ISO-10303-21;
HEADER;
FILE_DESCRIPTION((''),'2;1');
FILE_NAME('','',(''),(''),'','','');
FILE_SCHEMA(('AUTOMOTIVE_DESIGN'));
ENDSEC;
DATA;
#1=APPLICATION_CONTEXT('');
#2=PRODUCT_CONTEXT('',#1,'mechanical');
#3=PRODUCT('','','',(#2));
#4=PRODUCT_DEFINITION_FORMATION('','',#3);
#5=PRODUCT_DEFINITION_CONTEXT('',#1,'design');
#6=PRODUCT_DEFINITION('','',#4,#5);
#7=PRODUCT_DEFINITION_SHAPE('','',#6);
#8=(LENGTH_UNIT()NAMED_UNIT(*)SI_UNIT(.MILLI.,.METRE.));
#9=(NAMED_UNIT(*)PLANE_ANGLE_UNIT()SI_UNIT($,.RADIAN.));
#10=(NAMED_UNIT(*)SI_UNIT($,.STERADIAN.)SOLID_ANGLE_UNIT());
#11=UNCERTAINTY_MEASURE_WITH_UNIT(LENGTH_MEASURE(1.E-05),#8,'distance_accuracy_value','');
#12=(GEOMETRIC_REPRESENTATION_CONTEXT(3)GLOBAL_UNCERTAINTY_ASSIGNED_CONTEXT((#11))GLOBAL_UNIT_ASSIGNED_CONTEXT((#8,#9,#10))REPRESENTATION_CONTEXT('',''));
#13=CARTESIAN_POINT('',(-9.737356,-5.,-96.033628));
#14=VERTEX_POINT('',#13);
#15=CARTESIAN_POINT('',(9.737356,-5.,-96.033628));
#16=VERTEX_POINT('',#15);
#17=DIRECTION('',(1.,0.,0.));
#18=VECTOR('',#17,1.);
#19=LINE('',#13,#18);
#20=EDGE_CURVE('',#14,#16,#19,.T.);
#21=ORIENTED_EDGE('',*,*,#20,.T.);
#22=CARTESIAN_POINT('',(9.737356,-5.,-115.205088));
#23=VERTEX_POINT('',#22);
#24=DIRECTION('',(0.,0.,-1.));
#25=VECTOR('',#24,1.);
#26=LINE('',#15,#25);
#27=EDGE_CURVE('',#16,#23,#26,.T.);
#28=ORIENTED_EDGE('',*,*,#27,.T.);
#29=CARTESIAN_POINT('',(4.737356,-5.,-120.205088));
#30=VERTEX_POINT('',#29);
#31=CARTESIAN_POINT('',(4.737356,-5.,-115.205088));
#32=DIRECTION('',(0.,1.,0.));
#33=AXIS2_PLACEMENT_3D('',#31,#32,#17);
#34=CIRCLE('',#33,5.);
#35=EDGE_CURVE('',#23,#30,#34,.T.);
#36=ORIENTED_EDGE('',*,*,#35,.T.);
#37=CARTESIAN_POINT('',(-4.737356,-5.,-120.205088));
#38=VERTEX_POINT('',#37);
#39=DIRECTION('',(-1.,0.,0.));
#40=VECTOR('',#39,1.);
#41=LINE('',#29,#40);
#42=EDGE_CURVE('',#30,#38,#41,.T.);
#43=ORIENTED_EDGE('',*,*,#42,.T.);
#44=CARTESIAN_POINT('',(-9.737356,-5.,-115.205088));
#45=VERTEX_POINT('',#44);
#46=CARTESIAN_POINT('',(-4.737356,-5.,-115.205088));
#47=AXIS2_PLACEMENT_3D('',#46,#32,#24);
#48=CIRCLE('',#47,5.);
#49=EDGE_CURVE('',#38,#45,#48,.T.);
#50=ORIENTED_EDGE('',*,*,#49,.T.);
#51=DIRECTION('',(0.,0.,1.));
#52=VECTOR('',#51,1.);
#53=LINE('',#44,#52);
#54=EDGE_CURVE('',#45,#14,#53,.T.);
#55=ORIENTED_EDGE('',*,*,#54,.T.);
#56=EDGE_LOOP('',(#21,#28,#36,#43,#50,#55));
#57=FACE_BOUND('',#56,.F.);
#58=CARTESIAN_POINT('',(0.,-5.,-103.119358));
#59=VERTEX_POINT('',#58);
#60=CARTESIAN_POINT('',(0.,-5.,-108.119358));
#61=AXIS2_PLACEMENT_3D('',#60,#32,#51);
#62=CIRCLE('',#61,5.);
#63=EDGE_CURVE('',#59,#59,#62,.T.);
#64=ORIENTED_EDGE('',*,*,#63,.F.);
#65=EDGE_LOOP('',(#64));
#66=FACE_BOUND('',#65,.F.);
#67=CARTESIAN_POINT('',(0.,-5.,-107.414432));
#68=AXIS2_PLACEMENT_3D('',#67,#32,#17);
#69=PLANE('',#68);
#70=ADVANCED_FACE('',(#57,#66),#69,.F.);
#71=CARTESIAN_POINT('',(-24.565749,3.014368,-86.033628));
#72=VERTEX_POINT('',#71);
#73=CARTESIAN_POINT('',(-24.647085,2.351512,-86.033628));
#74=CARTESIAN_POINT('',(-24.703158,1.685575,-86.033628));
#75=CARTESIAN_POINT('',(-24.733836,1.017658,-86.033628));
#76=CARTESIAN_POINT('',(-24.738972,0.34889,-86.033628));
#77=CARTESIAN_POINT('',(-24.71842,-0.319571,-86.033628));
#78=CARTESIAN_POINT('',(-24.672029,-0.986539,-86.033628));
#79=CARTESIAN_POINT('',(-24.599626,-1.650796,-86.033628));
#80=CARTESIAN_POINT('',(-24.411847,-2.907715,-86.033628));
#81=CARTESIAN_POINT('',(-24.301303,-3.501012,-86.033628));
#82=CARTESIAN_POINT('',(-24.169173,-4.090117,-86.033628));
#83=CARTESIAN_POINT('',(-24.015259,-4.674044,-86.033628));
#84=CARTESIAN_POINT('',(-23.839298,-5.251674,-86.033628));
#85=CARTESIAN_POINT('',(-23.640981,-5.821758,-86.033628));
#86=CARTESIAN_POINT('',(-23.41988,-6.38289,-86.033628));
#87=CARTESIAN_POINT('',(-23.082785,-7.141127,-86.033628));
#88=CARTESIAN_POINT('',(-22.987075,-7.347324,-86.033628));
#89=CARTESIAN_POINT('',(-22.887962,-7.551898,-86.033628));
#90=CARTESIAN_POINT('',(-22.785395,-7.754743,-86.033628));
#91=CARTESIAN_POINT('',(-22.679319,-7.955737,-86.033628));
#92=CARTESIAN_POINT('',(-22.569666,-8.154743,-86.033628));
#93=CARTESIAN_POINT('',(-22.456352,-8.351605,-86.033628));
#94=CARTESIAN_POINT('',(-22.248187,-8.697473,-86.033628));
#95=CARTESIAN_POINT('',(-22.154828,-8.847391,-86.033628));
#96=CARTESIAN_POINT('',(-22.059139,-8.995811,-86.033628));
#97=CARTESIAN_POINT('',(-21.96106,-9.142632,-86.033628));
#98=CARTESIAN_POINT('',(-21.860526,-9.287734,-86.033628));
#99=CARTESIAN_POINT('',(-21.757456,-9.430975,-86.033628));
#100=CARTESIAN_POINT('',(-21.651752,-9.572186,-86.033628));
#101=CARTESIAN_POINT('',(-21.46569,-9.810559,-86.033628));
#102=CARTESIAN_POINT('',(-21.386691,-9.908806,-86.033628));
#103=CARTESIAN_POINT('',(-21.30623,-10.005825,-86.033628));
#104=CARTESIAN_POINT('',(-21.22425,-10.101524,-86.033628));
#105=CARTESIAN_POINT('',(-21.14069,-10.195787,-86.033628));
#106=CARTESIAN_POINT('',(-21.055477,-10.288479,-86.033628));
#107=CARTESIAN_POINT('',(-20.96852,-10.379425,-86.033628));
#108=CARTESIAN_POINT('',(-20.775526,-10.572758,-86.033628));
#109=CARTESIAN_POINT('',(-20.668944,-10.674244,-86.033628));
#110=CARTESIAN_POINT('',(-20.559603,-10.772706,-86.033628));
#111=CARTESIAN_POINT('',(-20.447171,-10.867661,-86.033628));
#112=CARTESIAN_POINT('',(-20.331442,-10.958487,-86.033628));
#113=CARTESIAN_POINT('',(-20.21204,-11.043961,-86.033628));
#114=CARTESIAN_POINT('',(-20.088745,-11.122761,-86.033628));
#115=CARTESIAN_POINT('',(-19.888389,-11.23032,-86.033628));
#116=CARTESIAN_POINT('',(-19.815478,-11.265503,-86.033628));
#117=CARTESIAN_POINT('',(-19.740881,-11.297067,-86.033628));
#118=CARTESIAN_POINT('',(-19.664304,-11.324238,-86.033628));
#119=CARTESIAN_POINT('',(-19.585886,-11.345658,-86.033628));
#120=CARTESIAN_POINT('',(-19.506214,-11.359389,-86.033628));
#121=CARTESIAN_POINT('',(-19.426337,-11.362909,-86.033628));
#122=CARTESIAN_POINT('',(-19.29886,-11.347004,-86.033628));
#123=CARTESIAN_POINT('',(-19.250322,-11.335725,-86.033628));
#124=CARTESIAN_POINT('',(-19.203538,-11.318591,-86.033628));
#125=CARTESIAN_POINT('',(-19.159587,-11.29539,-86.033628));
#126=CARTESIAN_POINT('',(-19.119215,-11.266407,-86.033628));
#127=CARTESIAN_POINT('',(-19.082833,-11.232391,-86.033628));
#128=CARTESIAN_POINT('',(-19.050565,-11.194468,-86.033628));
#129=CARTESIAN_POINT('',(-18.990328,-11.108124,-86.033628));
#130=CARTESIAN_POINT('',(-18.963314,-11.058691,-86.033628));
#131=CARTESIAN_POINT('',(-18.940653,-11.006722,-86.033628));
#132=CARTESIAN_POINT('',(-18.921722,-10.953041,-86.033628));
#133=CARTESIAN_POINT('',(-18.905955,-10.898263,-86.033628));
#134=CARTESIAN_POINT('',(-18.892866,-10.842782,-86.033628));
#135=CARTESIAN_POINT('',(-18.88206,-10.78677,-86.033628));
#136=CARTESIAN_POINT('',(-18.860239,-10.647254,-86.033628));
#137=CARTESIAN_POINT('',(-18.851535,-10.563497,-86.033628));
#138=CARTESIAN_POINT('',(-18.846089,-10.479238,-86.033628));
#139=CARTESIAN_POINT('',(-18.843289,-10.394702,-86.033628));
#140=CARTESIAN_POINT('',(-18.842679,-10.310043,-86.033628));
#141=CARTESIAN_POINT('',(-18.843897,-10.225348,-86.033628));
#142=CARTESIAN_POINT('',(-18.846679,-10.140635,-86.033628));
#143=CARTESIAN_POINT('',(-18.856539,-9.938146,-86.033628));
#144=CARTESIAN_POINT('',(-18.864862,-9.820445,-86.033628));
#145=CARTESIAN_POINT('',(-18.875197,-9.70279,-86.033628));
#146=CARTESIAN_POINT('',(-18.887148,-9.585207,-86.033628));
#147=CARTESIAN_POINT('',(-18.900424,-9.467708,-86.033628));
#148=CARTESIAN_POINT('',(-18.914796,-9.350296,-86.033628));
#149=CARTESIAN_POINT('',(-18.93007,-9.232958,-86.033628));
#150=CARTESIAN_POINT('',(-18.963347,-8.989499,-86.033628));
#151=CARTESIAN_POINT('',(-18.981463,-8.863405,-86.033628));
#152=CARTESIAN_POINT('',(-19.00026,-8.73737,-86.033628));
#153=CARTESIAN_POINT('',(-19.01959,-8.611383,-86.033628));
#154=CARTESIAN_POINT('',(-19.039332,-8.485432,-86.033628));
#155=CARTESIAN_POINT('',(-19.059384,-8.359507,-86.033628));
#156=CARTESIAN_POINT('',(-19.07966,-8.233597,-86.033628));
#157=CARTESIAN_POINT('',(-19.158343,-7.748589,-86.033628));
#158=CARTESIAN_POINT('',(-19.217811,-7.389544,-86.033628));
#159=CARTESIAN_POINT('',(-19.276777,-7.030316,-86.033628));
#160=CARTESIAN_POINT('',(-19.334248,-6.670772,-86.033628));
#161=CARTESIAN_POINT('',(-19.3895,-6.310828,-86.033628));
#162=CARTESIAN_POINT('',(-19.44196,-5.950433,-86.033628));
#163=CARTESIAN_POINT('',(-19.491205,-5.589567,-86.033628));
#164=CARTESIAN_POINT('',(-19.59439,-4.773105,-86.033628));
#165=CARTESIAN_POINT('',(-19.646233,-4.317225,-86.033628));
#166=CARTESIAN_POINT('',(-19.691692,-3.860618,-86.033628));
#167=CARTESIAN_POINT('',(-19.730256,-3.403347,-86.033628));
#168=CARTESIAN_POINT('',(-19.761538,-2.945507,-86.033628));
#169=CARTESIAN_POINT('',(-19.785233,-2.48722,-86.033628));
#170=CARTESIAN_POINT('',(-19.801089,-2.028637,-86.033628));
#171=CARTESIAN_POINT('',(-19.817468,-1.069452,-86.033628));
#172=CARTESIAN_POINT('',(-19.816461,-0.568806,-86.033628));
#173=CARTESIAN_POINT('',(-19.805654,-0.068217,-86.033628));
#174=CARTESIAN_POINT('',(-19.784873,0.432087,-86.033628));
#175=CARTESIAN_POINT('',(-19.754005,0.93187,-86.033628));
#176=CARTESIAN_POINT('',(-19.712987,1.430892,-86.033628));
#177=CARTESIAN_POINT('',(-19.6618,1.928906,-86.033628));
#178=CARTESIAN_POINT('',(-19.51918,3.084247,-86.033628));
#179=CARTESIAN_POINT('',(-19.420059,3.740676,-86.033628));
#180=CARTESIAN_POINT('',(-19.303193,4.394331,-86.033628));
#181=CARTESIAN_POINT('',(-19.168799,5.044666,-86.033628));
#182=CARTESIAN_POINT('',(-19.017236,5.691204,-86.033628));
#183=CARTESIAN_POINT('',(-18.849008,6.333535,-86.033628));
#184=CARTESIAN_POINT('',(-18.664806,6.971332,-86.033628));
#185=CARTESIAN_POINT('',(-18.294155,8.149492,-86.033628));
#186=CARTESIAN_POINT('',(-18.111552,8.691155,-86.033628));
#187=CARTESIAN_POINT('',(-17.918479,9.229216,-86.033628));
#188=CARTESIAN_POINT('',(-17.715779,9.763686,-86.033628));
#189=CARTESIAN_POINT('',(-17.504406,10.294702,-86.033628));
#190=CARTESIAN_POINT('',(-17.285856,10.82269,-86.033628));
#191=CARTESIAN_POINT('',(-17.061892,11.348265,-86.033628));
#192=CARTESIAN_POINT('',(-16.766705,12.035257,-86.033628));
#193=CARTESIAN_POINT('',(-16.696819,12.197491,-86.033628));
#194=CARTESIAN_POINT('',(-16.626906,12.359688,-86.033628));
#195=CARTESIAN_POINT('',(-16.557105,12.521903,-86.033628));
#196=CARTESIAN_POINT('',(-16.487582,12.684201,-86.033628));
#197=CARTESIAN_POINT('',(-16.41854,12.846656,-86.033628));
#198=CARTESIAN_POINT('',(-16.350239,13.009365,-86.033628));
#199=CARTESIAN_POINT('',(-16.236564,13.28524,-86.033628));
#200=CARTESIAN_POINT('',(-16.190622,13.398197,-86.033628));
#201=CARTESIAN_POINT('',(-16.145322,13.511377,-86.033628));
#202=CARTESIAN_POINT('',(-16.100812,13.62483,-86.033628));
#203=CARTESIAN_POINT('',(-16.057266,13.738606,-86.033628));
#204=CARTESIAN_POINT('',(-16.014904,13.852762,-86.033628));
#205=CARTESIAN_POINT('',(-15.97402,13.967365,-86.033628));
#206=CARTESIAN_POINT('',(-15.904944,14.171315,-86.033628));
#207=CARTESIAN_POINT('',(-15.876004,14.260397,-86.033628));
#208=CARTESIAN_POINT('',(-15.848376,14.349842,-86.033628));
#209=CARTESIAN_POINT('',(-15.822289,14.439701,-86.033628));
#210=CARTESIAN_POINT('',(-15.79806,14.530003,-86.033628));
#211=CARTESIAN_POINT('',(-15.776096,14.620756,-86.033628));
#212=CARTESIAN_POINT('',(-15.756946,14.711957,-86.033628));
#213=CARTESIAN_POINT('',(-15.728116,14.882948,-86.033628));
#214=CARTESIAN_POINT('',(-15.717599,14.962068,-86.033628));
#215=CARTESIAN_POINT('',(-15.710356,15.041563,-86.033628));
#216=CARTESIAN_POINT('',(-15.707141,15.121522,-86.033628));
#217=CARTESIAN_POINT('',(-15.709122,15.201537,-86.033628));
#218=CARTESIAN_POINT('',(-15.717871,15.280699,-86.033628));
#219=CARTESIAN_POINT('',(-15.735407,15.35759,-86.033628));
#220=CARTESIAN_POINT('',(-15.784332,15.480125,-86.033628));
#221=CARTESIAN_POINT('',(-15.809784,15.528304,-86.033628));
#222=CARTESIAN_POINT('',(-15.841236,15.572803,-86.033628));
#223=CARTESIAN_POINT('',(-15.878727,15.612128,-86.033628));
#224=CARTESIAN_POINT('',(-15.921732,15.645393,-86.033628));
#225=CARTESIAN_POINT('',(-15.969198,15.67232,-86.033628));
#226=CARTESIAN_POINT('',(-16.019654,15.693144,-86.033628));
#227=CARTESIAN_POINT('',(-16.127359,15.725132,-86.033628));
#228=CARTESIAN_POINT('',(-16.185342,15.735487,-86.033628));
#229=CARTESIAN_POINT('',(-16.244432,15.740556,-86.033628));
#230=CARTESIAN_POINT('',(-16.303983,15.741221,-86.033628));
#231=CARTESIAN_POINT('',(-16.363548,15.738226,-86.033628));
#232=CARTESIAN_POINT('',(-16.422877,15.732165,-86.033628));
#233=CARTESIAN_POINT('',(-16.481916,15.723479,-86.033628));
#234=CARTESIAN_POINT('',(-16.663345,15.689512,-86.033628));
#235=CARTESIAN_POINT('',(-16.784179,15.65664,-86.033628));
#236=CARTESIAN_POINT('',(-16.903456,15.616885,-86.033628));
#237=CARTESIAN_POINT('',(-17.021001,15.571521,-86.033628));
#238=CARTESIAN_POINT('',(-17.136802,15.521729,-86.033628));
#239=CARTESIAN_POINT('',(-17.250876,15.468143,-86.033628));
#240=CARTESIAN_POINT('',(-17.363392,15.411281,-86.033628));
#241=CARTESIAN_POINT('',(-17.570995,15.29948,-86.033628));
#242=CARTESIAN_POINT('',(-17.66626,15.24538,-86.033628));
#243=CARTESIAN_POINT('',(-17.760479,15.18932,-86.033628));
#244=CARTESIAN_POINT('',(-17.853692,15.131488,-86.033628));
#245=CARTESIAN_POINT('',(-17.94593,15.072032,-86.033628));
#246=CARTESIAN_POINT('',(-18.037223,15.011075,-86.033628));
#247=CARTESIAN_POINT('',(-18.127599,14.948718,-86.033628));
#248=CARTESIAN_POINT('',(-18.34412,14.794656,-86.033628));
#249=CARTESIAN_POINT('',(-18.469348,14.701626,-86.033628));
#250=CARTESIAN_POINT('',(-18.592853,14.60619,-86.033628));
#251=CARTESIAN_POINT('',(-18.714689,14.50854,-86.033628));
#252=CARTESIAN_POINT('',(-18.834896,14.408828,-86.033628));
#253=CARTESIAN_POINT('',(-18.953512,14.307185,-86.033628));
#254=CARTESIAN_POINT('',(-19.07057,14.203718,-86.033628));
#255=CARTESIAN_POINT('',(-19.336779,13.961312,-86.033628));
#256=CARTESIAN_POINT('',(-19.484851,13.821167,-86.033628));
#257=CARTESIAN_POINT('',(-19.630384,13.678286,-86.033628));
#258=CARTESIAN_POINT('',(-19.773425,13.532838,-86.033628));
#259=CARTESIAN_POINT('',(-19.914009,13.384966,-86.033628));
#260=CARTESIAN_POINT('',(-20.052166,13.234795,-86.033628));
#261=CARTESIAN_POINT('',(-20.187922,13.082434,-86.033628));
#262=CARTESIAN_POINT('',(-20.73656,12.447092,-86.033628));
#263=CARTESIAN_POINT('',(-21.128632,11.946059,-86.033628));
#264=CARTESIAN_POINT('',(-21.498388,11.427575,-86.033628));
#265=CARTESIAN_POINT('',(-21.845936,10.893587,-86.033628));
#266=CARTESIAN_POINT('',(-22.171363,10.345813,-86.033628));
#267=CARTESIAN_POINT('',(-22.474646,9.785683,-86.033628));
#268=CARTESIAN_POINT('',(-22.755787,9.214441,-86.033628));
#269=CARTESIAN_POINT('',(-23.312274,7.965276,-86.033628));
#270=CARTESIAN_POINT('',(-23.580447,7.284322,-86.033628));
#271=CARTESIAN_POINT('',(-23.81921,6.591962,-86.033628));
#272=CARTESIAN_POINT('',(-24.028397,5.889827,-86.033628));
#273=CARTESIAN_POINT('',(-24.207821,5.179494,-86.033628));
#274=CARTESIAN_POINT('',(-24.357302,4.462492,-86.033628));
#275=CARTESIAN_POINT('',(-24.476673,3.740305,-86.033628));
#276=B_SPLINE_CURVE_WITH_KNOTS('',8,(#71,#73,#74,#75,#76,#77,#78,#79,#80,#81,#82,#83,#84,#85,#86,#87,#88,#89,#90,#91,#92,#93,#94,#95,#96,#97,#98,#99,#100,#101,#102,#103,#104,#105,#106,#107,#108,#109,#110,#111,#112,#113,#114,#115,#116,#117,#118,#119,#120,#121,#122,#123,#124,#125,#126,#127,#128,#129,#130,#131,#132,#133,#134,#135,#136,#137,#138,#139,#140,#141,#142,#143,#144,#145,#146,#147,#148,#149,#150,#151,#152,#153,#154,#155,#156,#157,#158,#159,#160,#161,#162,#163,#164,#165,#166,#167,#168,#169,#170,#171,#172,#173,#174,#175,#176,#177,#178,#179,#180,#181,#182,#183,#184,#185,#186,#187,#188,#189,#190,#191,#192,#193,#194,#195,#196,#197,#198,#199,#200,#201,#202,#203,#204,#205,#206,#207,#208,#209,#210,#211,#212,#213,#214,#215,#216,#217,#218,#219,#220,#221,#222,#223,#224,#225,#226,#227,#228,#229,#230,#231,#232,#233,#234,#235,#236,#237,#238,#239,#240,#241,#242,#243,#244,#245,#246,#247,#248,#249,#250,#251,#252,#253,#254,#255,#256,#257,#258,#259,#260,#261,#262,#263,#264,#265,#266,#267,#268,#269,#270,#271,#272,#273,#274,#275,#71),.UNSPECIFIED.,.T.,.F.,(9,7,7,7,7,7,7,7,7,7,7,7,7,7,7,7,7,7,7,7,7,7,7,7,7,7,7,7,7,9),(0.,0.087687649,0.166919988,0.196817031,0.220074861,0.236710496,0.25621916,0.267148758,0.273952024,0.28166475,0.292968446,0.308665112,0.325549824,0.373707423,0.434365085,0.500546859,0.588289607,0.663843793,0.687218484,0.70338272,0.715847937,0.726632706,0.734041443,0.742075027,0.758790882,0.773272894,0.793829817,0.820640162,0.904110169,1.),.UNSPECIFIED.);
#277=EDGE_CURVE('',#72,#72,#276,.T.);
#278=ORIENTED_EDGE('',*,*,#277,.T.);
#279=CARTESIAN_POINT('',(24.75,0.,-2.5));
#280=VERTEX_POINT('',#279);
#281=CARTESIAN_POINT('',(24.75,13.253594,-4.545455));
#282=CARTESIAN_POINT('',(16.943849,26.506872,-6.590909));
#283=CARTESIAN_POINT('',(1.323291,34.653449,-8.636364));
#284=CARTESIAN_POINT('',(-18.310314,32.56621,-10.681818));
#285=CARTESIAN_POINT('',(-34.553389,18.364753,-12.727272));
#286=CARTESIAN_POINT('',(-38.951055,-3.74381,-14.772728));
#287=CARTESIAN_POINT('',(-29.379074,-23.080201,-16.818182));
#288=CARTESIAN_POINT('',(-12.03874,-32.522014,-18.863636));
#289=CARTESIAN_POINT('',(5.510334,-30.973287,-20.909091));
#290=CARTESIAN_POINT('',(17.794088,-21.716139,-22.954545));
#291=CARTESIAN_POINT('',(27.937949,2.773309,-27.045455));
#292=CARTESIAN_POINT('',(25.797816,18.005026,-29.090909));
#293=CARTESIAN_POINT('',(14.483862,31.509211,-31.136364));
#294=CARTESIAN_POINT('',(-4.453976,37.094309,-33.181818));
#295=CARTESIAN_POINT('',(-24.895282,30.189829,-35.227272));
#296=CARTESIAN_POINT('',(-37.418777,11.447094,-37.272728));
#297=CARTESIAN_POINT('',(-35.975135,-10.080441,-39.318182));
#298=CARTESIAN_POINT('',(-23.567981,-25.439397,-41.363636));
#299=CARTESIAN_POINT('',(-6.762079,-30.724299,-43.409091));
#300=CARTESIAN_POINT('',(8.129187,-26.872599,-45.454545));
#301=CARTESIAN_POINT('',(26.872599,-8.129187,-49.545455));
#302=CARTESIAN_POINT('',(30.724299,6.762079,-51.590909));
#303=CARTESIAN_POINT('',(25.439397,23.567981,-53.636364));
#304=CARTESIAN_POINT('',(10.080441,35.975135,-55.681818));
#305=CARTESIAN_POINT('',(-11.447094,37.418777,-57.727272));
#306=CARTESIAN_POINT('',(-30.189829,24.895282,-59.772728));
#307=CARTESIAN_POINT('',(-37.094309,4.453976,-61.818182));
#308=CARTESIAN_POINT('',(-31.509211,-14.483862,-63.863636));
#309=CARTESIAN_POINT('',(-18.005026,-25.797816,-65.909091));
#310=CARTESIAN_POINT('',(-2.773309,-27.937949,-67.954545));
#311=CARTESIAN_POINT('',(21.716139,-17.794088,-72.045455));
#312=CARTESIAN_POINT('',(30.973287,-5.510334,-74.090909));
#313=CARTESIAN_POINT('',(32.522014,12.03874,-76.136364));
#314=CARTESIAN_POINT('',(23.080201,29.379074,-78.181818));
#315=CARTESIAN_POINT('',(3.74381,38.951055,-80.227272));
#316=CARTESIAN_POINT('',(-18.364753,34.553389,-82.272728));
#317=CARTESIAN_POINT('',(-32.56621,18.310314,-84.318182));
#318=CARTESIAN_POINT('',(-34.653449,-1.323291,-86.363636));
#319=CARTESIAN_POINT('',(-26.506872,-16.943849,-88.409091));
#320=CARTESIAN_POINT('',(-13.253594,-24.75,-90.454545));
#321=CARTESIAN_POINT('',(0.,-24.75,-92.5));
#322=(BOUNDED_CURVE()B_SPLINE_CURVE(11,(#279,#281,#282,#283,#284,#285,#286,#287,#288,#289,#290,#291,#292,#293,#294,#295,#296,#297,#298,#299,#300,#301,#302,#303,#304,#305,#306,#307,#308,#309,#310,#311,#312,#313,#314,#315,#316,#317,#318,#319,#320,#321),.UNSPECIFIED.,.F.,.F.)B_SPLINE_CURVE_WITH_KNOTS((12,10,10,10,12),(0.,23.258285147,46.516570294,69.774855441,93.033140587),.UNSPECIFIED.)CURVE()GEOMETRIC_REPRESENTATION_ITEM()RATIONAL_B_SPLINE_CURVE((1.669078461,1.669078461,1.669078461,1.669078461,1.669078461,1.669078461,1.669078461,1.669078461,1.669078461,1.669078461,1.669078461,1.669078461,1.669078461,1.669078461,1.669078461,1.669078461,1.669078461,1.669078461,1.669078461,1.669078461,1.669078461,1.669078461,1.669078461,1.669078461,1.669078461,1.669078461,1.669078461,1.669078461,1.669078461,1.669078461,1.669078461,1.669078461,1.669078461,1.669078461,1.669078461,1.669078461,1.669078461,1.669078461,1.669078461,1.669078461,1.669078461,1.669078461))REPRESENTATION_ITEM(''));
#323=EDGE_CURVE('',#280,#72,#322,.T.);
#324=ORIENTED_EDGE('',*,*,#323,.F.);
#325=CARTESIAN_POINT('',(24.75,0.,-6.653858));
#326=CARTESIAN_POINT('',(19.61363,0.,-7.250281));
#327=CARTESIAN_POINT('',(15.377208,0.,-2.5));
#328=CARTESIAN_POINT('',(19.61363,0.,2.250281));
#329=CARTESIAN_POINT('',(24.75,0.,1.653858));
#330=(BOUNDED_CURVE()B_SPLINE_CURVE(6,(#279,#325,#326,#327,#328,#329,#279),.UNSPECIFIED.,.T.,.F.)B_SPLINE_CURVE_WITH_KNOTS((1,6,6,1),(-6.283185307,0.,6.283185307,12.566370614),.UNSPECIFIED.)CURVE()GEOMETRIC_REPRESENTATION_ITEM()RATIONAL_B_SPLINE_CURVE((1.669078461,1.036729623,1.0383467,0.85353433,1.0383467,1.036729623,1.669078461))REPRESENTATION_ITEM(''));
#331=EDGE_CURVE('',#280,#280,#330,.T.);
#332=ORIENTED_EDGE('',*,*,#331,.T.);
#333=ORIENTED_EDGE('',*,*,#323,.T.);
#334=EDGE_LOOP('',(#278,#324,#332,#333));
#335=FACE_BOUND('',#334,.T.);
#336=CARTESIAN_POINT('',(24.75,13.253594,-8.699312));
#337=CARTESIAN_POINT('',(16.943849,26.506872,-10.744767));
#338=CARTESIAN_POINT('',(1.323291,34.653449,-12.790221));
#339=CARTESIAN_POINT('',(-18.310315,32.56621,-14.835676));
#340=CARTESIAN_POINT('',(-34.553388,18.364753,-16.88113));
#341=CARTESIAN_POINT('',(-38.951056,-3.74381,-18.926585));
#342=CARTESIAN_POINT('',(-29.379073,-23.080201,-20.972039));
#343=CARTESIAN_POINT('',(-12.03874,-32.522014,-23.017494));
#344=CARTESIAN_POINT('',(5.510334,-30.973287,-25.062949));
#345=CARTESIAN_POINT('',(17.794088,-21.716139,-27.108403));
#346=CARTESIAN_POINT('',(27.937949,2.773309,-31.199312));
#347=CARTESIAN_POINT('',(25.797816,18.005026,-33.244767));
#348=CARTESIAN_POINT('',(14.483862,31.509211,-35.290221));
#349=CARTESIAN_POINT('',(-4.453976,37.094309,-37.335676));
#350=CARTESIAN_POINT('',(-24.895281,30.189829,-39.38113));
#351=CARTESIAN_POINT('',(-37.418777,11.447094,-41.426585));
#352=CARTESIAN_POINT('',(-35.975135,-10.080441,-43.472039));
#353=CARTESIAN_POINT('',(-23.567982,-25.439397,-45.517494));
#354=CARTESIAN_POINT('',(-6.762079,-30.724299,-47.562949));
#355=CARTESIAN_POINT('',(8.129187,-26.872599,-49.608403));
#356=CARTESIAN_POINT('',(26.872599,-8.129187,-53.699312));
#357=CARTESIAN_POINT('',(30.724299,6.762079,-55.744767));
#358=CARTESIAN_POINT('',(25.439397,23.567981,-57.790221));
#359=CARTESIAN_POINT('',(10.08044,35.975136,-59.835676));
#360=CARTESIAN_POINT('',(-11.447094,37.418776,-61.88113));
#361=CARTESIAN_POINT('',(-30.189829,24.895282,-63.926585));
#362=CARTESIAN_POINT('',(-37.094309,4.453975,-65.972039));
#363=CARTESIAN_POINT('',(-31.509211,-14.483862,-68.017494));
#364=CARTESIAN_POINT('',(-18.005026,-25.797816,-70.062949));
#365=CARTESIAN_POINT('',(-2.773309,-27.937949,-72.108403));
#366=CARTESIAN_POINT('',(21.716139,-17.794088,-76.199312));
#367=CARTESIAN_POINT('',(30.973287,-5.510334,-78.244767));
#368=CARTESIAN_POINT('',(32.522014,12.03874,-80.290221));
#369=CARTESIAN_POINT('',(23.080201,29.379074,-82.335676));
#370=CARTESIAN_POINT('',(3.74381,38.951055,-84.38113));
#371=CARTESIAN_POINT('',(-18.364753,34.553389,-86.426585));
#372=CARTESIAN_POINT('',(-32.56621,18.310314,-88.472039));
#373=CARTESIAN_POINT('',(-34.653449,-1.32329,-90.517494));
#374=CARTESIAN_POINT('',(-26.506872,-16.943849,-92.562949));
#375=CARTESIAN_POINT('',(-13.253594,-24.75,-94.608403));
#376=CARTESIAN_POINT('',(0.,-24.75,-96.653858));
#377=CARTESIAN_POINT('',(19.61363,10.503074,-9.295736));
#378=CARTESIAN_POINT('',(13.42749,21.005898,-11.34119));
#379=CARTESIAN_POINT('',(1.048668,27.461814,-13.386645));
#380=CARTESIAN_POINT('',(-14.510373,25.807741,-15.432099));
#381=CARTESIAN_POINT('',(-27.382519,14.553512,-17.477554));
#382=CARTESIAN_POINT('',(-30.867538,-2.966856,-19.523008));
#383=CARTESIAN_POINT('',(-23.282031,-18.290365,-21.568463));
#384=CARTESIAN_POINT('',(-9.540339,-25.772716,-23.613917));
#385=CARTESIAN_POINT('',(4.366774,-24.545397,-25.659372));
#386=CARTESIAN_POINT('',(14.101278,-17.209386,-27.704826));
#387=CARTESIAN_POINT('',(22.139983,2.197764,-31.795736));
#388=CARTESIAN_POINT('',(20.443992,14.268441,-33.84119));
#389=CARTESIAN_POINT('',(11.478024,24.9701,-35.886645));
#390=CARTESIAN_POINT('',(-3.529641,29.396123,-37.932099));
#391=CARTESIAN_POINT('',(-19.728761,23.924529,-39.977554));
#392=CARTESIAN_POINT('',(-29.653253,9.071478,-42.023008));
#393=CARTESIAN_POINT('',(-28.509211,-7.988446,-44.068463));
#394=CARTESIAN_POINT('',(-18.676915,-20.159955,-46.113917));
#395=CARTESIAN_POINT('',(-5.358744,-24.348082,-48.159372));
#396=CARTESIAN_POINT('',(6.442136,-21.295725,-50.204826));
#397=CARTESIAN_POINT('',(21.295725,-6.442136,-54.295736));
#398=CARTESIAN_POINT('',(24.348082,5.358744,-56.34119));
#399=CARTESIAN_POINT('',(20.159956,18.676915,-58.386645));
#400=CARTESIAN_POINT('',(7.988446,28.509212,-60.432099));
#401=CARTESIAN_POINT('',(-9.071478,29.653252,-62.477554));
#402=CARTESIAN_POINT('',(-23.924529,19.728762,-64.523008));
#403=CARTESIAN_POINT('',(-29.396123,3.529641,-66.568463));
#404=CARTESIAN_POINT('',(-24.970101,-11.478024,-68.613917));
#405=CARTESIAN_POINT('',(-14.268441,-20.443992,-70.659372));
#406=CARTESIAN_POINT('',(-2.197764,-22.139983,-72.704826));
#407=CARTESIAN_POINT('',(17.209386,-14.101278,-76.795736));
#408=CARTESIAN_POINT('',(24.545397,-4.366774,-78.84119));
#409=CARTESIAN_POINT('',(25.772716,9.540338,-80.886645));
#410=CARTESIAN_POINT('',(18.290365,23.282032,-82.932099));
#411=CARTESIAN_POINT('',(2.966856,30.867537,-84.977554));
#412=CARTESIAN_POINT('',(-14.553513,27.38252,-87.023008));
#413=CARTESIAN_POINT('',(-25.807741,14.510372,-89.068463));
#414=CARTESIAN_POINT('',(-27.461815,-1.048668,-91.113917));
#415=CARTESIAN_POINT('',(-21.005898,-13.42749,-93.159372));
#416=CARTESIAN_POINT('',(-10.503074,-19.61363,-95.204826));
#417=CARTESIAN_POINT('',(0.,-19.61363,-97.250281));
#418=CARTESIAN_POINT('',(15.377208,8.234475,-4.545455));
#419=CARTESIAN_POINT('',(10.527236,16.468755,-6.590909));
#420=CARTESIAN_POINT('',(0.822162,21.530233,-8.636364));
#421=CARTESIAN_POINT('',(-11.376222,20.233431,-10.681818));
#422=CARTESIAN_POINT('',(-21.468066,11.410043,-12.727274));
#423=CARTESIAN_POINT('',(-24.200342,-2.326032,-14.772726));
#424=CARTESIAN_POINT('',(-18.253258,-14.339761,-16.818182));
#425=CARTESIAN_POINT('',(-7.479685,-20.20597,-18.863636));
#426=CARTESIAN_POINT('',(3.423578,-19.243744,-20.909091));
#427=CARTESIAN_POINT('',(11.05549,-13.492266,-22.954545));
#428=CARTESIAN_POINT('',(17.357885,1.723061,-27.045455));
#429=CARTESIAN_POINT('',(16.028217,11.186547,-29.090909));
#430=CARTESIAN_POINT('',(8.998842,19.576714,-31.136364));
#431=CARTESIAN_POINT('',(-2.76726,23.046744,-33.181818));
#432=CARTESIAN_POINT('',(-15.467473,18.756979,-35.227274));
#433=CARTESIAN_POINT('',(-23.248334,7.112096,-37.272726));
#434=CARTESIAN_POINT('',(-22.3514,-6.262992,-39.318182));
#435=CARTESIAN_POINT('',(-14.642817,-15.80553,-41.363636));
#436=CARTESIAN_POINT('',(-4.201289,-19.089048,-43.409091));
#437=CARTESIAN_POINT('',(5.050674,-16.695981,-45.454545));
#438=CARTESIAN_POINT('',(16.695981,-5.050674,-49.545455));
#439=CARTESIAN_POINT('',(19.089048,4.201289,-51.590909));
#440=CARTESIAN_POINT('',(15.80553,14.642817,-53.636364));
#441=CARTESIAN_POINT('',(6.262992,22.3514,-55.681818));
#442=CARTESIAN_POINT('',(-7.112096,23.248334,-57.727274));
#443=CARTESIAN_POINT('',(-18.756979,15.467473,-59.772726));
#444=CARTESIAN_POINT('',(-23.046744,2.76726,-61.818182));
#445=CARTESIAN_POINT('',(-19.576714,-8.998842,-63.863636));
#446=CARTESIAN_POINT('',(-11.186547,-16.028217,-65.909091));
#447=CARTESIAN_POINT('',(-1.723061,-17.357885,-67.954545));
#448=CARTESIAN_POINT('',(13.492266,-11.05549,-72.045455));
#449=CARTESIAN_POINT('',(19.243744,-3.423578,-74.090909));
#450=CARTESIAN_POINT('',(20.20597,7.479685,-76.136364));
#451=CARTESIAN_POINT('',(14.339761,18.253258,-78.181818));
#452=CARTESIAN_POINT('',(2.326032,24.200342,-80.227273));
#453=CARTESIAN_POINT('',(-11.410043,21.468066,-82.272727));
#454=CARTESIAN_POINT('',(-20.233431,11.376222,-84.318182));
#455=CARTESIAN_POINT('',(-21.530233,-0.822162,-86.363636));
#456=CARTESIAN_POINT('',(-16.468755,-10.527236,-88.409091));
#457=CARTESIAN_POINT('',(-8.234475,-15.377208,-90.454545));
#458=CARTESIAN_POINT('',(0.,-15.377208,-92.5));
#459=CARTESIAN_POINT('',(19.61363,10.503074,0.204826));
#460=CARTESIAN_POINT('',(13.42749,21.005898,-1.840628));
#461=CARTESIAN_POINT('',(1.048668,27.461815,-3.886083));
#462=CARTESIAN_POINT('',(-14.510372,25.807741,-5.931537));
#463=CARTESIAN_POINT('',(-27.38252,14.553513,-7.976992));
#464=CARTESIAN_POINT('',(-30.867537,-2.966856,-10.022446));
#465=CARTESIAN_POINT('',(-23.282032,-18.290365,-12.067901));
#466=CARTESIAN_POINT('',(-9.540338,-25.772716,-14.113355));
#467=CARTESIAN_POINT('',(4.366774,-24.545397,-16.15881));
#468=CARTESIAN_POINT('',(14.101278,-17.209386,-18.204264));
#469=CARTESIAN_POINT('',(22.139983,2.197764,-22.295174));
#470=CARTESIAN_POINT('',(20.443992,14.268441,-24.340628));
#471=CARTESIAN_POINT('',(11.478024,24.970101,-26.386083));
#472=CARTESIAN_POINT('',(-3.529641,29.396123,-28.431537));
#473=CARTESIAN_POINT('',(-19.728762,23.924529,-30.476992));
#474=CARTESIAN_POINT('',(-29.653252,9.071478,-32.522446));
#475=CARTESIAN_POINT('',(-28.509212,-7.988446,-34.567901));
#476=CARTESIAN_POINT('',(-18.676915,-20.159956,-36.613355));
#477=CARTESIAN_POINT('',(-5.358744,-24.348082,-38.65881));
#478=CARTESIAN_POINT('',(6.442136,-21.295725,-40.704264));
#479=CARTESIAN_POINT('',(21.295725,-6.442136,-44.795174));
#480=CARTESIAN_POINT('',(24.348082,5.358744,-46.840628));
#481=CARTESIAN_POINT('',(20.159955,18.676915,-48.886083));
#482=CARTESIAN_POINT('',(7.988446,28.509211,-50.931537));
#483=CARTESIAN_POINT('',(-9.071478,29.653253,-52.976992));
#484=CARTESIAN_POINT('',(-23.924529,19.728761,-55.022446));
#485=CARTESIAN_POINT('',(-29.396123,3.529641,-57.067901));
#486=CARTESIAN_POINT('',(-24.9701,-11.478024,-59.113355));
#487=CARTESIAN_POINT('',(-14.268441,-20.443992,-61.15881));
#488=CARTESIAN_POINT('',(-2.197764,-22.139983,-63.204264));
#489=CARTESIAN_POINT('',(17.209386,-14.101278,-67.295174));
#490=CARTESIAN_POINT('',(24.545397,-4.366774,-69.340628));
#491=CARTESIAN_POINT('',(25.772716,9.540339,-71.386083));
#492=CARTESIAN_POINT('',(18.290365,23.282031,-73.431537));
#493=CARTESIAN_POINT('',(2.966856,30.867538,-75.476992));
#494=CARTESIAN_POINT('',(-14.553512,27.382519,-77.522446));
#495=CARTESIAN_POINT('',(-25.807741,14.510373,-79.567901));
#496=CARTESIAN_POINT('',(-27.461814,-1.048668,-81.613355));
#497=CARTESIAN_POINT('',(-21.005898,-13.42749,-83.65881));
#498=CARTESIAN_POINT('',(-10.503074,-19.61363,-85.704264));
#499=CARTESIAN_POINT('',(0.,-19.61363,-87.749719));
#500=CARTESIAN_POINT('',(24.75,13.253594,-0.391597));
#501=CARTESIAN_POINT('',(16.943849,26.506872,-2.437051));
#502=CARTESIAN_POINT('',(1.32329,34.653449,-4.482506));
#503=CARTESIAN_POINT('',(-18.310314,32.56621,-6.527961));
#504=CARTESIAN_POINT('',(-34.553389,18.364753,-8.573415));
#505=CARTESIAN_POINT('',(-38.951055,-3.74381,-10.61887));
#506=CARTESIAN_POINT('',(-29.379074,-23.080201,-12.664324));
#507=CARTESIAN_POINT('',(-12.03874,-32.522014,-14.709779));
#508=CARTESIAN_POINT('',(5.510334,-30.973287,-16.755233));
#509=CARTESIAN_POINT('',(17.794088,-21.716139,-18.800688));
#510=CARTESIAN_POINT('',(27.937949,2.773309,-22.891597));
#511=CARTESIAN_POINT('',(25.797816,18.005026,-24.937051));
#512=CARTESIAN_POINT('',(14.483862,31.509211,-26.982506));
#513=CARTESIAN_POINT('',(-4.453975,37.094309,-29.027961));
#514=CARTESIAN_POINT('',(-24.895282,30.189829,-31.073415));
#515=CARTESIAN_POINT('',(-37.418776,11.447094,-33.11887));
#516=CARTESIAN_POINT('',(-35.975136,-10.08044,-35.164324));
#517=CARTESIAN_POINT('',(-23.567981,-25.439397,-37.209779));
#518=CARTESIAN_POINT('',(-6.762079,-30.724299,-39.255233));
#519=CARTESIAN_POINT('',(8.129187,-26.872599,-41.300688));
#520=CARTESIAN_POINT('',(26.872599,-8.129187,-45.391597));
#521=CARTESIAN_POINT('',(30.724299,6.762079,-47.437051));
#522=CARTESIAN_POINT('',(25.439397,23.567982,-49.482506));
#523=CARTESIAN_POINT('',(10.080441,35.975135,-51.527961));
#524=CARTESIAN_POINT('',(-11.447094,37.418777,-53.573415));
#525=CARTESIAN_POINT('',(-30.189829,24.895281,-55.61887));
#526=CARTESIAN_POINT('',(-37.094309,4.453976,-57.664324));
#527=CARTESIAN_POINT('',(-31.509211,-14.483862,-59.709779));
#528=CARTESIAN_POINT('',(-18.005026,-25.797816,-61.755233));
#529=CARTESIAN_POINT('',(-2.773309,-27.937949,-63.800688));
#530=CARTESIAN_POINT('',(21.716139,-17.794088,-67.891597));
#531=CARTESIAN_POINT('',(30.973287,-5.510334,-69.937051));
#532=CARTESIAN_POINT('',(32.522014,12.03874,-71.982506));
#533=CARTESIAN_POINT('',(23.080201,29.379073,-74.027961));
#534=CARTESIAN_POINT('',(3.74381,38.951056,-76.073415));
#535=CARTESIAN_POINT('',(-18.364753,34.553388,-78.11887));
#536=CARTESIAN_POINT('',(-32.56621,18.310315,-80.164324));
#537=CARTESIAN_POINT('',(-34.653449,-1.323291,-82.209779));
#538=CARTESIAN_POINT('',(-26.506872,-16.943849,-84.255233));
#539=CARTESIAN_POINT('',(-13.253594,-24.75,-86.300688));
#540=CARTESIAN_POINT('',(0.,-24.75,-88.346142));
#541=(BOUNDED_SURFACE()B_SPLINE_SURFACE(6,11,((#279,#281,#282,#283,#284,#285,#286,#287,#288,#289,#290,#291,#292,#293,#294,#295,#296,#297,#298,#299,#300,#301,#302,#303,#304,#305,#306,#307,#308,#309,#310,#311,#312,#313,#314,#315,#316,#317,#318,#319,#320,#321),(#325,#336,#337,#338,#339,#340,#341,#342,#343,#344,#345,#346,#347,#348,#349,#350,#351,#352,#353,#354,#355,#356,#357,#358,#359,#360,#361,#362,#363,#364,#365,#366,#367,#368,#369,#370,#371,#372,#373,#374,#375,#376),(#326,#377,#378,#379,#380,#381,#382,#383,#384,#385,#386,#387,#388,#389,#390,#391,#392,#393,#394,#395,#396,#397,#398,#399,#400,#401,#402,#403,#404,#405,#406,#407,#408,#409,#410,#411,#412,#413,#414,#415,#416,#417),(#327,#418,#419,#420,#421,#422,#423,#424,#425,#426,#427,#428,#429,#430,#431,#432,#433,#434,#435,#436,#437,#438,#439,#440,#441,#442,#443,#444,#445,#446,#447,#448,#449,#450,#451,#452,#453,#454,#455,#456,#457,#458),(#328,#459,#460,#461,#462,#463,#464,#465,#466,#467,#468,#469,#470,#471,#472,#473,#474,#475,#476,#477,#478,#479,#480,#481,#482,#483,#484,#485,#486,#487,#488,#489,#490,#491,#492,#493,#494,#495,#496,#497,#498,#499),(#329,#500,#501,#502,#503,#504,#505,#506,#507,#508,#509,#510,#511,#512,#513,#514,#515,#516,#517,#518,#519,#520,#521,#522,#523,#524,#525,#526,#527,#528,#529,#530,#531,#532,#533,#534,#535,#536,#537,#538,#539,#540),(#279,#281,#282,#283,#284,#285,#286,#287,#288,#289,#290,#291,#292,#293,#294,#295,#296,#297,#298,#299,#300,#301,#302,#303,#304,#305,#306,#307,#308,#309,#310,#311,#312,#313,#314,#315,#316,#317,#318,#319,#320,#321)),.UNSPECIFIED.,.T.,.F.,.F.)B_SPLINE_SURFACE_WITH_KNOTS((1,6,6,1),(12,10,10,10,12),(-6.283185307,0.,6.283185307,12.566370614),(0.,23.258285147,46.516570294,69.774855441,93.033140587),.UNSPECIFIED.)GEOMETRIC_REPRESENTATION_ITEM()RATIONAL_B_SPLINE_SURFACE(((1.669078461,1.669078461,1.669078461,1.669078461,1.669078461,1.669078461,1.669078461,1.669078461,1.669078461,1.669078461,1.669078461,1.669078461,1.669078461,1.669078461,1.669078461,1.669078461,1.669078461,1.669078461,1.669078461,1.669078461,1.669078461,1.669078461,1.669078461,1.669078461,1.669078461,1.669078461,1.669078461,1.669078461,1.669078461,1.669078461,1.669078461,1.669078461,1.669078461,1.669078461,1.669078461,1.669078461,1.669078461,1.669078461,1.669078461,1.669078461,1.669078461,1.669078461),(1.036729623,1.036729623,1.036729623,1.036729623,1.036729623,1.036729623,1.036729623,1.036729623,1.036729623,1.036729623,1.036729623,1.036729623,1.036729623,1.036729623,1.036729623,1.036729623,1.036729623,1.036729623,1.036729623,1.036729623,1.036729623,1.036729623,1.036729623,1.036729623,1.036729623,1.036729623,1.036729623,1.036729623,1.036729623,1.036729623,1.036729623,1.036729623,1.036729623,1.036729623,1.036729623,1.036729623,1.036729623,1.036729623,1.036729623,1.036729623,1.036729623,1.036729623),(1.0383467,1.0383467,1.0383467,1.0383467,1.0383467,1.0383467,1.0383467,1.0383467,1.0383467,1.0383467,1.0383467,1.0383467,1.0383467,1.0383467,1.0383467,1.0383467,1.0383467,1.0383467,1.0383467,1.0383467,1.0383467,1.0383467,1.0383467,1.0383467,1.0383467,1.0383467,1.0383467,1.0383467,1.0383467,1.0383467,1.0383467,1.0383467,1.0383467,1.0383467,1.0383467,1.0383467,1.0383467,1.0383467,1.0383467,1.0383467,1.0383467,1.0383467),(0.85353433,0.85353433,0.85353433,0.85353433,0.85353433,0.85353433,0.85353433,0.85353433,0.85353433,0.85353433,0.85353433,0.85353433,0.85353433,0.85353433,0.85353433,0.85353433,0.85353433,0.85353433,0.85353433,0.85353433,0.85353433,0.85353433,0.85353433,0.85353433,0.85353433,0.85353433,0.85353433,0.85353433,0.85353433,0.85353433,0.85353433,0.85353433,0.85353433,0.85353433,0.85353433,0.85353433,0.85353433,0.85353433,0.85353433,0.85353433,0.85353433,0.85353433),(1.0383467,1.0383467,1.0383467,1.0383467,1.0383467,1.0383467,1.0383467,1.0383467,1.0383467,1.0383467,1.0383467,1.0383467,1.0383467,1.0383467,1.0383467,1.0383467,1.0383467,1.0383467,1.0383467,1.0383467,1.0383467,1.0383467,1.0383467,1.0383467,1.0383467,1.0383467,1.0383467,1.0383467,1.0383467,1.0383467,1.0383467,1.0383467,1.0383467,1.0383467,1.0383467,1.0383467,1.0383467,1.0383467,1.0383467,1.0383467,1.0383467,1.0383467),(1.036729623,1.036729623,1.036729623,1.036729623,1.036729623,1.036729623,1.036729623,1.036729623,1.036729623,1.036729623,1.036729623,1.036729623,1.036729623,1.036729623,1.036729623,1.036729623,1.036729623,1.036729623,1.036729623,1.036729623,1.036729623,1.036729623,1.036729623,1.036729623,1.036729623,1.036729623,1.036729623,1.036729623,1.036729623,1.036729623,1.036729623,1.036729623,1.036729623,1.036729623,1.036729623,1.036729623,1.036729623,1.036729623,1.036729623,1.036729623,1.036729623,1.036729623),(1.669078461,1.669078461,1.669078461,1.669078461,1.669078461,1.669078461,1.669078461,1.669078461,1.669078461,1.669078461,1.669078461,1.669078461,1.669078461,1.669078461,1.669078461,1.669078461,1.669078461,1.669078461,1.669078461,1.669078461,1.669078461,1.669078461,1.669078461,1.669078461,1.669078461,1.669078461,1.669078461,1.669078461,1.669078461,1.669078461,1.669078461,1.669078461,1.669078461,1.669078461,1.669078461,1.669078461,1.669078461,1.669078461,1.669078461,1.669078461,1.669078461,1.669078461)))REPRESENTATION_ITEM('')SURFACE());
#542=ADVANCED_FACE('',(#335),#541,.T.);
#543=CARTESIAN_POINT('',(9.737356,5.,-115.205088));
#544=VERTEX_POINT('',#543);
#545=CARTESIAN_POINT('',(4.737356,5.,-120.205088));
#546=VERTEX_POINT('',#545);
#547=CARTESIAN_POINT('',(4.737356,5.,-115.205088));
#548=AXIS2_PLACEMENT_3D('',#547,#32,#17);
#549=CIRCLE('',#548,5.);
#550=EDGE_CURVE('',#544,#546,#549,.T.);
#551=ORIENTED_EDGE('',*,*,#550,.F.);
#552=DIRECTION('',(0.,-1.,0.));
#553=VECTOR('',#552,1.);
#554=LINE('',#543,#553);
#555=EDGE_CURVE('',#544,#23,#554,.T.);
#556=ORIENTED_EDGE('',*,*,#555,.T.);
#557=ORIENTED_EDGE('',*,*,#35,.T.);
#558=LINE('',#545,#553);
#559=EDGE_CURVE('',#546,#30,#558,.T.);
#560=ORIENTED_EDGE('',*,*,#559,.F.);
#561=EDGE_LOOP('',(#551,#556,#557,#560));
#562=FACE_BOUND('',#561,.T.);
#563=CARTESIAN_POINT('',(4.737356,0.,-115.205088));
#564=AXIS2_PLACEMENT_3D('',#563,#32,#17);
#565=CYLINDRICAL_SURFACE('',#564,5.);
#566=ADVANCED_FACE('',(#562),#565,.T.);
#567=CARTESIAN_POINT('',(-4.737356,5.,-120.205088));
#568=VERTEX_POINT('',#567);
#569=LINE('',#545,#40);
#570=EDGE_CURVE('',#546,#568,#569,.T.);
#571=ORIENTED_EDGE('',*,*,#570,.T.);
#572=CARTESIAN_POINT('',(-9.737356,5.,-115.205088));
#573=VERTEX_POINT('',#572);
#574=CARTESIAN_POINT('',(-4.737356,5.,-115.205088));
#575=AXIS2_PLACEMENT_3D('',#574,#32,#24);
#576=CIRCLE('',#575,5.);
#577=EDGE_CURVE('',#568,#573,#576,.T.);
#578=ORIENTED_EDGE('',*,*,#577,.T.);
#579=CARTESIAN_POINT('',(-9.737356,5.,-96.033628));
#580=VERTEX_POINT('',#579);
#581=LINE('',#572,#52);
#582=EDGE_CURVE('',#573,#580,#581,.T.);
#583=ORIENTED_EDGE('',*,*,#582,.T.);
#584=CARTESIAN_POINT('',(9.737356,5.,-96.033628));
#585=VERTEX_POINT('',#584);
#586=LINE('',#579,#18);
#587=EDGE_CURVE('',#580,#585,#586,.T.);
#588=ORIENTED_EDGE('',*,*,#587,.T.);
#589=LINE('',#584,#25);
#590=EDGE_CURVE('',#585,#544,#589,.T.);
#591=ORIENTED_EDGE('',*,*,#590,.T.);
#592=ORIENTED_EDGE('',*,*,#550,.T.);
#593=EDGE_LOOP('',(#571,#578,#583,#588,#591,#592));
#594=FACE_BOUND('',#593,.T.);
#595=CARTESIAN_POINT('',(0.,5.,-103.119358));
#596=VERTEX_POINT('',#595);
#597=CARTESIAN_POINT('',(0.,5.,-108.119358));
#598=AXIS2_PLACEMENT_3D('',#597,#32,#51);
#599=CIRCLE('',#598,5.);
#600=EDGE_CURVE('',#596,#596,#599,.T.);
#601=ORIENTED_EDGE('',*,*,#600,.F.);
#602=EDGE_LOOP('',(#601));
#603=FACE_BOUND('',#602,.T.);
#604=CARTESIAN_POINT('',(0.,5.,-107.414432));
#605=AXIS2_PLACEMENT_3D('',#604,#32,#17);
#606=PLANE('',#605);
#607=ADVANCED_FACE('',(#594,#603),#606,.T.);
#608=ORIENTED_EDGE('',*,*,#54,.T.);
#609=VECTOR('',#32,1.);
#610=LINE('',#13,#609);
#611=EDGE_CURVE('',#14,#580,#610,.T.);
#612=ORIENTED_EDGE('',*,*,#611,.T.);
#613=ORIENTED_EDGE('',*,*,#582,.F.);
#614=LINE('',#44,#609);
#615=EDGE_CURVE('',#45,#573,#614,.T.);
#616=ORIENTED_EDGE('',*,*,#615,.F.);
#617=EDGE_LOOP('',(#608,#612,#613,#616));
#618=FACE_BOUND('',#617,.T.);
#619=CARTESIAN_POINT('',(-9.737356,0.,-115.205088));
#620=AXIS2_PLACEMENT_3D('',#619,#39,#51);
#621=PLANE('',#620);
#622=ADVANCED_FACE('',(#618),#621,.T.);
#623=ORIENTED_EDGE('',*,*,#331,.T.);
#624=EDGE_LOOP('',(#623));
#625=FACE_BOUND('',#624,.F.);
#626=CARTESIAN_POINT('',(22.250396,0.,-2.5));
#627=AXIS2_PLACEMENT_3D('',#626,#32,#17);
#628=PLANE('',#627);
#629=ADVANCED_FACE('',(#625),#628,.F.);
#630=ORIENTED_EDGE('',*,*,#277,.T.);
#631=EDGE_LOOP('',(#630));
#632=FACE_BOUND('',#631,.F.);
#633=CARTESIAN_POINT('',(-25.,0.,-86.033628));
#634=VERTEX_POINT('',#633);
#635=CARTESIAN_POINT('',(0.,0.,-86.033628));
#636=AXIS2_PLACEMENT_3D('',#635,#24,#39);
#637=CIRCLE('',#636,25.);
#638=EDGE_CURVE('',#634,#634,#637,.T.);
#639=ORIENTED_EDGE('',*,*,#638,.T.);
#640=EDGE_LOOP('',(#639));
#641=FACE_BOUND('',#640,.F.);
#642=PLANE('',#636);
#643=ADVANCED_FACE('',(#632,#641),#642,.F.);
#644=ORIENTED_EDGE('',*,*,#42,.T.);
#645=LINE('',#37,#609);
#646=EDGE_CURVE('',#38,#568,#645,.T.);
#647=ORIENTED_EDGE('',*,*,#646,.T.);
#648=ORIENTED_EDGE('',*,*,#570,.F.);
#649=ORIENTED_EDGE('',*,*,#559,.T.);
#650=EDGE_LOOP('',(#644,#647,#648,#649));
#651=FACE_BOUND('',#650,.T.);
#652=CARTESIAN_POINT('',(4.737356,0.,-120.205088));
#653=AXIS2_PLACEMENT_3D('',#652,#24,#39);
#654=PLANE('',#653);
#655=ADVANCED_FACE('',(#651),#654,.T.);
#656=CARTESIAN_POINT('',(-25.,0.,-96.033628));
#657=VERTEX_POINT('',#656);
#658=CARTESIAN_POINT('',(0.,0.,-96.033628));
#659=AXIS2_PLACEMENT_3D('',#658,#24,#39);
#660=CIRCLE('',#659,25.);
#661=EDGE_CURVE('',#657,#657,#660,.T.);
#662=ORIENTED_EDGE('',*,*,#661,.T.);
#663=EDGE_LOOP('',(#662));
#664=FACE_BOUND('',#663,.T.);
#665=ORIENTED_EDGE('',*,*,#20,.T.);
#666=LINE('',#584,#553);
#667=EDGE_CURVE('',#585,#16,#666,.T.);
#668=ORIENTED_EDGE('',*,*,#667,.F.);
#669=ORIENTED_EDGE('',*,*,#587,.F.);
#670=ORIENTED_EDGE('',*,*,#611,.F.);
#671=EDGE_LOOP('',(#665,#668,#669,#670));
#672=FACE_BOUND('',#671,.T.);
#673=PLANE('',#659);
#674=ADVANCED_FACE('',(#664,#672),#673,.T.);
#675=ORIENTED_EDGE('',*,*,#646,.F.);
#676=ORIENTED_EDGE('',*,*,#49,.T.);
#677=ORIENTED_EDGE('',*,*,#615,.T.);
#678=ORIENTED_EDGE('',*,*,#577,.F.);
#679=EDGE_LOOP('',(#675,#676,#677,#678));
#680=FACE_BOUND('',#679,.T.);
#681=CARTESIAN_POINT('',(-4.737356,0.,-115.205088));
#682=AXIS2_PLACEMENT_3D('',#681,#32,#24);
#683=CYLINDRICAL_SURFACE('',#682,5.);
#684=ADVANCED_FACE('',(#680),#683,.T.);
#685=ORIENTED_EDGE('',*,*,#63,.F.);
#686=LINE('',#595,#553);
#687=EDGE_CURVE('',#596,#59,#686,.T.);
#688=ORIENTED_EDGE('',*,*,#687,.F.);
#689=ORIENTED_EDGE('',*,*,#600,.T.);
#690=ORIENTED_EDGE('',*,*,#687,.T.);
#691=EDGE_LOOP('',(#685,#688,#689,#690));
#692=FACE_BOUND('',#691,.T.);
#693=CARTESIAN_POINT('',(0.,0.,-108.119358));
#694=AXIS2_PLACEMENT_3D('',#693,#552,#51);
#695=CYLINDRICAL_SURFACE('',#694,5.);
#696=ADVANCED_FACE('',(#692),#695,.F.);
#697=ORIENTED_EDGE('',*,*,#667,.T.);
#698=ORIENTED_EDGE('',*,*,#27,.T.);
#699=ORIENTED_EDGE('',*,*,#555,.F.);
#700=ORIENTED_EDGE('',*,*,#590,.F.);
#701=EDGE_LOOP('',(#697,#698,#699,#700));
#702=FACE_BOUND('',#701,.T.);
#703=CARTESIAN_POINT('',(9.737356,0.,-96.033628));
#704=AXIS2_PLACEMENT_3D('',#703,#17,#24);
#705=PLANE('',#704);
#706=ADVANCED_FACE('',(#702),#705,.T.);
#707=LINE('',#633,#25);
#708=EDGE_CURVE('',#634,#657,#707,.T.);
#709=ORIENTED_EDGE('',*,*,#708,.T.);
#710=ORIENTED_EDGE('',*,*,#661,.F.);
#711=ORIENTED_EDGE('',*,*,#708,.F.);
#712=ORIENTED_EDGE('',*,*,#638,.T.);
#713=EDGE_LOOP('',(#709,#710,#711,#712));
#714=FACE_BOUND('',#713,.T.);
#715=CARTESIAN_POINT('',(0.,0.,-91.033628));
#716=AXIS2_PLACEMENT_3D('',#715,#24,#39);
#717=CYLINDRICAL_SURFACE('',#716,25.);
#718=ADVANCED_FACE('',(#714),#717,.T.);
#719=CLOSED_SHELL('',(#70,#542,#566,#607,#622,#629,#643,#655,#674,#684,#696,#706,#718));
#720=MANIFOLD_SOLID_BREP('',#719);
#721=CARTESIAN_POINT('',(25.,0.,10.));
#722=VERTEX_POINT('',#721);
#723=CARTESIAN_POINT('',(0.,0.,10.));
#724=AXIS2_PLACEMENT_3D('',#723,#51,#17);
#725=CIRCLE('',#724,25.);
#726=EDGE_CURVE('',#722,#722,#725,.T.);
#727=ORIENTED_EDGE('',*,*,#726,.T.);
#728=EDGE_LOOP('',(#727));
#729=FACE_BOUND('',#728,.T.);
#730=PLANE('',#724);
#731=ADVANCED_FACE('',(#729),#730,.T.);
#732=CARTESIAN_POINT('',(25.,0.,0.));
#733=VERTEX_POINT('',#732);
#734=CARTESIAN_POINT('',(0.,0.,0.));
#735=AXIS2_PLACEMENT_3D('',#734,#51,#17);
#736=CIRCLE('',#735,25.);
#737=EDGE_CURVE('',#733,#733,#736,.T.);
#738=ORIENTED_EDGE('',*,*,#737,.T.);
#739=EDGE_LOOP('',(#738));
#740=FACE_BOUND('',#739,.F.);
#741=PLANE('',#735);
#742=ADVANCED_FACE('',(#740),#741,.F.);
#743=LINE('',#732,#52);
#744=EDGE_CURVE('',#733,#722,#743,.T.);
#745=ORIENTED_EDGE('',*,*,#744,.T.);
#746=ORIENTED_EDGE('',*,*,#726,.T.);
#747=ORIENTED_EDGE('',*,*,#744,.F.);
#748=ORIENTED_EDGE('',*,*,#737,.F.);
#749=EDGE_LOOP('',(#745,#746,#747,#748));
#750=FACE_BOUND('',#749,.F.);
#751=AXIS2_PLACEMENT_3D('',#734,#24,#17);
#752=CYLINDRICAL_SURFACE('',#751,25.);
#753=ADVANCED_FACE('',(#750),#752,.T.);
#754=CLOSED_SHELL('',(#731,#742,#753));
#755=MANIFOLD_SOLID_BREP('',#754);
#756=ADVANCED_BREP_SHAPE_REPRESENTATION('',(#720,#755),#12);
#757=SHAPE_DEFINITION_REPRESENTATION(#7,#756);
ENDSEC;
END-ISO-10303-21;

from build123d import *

# Parameters (mm, degrees)
SKETCH1_R           = 25
BOSS_EXTRUDE1_DEPTH = 10
SWEEP1_PITCH        = 24
SWEEP1_HEIGHT       = 90
SWEEP1_RADIUS       = 22.25
SWEEP1_START_ANGLE  = -180
SKETCH6_R           = 2.5
SKETCH8_R           = 25
BOSS_EXTRUDE2_DEPTH = 5
SKETCH9_R           = 5
BOSS_EXTRUDE3_DEPTH = 5


with BuildPart() as part:
    # Sketch1 → Boss-Extrude1 (new body)
    with BuildSketch(Plane.XY):
        Circle(SKETCH1_R)
    extrude(amount=BOSS_EXTRUDE1_DEPTH)


with BuildPart() as body_2:
    # Sweep1: sweep along a helix
    with BuildLine() as sweep1_path:
        add(Helix(SWEEP1_PITCH, SWEEP1_HEIGHT, SWEEP1_RADIUS, center=(0, 0, -2.5), direction=(0, 0, -1), lefthand=True, mode=Mode.PRIVATE).rotate(Axis((0, 0, -2.5), (0, 0, -1)), SWEEP1_START_ANGLE))
    # Sketch6 → Sweep1 (sweep)
    with BuildSketch(Plane(origin=(0, 0, 0), x_dir=(1, 0, 0), z_dir=(0, 1, 0))):
        with Locations((22.25, 2.5)):
            Circle(SKETCH6_R)
    sweep(path=sweep1_path.line, is_frenet=True)

    # Sketch8 → Boss-Extrude2 (add, symmetric)
    with BuildSketch(Plane(origin=(0, 0, -91.033627504), x_dir=(-1, 0, 0), z_dir=(0, 0, -1))):
        Circle(SKETCH8_R)
    extrude(amount=BOSS_EXTRUDE2_DEPTH, both=True)

    # Sketch9 → Boss-Extrude3 (add, symmetric)
    with BuildSketch(Plane(origin=(0, 0, 0), x_dir=(1, 0, 0), z_dir=(0, 1, 0))):
        with BuildLine():
            Line((4.737356354, 120.205088148), (-4.737356354, 120.205088148))
            ThreePointArc((-4.737356354, 120.205088148), (-8.27289026, 118.740622053), (-9.737356354, 115.205088148))
            Line((-9.737356354, 115.205088148), (-9.737356354, 96.033627504))
            Line((-9.737356354, 96.033627504), (9.737356354, 96.033627504))
            Line((9.737356354, 96.033627504), (9.737356354, 115.205088148))
            ThreePointArc((9.737356354, 115.205088148), (8.27289026, 118.740622053), (4.737356354, 120.205088148))
        make_face()
        with Locations(Location((0, 108.119357826, 0), (0, 0, 270))):
            Circle(SKETCH9_R, mode=Mode.SUBTRACT)
    extrude(amount=BOSS_EXTRUDE3_DEPTH, both=True)


solid = Compound([part.part, body_2.part])
